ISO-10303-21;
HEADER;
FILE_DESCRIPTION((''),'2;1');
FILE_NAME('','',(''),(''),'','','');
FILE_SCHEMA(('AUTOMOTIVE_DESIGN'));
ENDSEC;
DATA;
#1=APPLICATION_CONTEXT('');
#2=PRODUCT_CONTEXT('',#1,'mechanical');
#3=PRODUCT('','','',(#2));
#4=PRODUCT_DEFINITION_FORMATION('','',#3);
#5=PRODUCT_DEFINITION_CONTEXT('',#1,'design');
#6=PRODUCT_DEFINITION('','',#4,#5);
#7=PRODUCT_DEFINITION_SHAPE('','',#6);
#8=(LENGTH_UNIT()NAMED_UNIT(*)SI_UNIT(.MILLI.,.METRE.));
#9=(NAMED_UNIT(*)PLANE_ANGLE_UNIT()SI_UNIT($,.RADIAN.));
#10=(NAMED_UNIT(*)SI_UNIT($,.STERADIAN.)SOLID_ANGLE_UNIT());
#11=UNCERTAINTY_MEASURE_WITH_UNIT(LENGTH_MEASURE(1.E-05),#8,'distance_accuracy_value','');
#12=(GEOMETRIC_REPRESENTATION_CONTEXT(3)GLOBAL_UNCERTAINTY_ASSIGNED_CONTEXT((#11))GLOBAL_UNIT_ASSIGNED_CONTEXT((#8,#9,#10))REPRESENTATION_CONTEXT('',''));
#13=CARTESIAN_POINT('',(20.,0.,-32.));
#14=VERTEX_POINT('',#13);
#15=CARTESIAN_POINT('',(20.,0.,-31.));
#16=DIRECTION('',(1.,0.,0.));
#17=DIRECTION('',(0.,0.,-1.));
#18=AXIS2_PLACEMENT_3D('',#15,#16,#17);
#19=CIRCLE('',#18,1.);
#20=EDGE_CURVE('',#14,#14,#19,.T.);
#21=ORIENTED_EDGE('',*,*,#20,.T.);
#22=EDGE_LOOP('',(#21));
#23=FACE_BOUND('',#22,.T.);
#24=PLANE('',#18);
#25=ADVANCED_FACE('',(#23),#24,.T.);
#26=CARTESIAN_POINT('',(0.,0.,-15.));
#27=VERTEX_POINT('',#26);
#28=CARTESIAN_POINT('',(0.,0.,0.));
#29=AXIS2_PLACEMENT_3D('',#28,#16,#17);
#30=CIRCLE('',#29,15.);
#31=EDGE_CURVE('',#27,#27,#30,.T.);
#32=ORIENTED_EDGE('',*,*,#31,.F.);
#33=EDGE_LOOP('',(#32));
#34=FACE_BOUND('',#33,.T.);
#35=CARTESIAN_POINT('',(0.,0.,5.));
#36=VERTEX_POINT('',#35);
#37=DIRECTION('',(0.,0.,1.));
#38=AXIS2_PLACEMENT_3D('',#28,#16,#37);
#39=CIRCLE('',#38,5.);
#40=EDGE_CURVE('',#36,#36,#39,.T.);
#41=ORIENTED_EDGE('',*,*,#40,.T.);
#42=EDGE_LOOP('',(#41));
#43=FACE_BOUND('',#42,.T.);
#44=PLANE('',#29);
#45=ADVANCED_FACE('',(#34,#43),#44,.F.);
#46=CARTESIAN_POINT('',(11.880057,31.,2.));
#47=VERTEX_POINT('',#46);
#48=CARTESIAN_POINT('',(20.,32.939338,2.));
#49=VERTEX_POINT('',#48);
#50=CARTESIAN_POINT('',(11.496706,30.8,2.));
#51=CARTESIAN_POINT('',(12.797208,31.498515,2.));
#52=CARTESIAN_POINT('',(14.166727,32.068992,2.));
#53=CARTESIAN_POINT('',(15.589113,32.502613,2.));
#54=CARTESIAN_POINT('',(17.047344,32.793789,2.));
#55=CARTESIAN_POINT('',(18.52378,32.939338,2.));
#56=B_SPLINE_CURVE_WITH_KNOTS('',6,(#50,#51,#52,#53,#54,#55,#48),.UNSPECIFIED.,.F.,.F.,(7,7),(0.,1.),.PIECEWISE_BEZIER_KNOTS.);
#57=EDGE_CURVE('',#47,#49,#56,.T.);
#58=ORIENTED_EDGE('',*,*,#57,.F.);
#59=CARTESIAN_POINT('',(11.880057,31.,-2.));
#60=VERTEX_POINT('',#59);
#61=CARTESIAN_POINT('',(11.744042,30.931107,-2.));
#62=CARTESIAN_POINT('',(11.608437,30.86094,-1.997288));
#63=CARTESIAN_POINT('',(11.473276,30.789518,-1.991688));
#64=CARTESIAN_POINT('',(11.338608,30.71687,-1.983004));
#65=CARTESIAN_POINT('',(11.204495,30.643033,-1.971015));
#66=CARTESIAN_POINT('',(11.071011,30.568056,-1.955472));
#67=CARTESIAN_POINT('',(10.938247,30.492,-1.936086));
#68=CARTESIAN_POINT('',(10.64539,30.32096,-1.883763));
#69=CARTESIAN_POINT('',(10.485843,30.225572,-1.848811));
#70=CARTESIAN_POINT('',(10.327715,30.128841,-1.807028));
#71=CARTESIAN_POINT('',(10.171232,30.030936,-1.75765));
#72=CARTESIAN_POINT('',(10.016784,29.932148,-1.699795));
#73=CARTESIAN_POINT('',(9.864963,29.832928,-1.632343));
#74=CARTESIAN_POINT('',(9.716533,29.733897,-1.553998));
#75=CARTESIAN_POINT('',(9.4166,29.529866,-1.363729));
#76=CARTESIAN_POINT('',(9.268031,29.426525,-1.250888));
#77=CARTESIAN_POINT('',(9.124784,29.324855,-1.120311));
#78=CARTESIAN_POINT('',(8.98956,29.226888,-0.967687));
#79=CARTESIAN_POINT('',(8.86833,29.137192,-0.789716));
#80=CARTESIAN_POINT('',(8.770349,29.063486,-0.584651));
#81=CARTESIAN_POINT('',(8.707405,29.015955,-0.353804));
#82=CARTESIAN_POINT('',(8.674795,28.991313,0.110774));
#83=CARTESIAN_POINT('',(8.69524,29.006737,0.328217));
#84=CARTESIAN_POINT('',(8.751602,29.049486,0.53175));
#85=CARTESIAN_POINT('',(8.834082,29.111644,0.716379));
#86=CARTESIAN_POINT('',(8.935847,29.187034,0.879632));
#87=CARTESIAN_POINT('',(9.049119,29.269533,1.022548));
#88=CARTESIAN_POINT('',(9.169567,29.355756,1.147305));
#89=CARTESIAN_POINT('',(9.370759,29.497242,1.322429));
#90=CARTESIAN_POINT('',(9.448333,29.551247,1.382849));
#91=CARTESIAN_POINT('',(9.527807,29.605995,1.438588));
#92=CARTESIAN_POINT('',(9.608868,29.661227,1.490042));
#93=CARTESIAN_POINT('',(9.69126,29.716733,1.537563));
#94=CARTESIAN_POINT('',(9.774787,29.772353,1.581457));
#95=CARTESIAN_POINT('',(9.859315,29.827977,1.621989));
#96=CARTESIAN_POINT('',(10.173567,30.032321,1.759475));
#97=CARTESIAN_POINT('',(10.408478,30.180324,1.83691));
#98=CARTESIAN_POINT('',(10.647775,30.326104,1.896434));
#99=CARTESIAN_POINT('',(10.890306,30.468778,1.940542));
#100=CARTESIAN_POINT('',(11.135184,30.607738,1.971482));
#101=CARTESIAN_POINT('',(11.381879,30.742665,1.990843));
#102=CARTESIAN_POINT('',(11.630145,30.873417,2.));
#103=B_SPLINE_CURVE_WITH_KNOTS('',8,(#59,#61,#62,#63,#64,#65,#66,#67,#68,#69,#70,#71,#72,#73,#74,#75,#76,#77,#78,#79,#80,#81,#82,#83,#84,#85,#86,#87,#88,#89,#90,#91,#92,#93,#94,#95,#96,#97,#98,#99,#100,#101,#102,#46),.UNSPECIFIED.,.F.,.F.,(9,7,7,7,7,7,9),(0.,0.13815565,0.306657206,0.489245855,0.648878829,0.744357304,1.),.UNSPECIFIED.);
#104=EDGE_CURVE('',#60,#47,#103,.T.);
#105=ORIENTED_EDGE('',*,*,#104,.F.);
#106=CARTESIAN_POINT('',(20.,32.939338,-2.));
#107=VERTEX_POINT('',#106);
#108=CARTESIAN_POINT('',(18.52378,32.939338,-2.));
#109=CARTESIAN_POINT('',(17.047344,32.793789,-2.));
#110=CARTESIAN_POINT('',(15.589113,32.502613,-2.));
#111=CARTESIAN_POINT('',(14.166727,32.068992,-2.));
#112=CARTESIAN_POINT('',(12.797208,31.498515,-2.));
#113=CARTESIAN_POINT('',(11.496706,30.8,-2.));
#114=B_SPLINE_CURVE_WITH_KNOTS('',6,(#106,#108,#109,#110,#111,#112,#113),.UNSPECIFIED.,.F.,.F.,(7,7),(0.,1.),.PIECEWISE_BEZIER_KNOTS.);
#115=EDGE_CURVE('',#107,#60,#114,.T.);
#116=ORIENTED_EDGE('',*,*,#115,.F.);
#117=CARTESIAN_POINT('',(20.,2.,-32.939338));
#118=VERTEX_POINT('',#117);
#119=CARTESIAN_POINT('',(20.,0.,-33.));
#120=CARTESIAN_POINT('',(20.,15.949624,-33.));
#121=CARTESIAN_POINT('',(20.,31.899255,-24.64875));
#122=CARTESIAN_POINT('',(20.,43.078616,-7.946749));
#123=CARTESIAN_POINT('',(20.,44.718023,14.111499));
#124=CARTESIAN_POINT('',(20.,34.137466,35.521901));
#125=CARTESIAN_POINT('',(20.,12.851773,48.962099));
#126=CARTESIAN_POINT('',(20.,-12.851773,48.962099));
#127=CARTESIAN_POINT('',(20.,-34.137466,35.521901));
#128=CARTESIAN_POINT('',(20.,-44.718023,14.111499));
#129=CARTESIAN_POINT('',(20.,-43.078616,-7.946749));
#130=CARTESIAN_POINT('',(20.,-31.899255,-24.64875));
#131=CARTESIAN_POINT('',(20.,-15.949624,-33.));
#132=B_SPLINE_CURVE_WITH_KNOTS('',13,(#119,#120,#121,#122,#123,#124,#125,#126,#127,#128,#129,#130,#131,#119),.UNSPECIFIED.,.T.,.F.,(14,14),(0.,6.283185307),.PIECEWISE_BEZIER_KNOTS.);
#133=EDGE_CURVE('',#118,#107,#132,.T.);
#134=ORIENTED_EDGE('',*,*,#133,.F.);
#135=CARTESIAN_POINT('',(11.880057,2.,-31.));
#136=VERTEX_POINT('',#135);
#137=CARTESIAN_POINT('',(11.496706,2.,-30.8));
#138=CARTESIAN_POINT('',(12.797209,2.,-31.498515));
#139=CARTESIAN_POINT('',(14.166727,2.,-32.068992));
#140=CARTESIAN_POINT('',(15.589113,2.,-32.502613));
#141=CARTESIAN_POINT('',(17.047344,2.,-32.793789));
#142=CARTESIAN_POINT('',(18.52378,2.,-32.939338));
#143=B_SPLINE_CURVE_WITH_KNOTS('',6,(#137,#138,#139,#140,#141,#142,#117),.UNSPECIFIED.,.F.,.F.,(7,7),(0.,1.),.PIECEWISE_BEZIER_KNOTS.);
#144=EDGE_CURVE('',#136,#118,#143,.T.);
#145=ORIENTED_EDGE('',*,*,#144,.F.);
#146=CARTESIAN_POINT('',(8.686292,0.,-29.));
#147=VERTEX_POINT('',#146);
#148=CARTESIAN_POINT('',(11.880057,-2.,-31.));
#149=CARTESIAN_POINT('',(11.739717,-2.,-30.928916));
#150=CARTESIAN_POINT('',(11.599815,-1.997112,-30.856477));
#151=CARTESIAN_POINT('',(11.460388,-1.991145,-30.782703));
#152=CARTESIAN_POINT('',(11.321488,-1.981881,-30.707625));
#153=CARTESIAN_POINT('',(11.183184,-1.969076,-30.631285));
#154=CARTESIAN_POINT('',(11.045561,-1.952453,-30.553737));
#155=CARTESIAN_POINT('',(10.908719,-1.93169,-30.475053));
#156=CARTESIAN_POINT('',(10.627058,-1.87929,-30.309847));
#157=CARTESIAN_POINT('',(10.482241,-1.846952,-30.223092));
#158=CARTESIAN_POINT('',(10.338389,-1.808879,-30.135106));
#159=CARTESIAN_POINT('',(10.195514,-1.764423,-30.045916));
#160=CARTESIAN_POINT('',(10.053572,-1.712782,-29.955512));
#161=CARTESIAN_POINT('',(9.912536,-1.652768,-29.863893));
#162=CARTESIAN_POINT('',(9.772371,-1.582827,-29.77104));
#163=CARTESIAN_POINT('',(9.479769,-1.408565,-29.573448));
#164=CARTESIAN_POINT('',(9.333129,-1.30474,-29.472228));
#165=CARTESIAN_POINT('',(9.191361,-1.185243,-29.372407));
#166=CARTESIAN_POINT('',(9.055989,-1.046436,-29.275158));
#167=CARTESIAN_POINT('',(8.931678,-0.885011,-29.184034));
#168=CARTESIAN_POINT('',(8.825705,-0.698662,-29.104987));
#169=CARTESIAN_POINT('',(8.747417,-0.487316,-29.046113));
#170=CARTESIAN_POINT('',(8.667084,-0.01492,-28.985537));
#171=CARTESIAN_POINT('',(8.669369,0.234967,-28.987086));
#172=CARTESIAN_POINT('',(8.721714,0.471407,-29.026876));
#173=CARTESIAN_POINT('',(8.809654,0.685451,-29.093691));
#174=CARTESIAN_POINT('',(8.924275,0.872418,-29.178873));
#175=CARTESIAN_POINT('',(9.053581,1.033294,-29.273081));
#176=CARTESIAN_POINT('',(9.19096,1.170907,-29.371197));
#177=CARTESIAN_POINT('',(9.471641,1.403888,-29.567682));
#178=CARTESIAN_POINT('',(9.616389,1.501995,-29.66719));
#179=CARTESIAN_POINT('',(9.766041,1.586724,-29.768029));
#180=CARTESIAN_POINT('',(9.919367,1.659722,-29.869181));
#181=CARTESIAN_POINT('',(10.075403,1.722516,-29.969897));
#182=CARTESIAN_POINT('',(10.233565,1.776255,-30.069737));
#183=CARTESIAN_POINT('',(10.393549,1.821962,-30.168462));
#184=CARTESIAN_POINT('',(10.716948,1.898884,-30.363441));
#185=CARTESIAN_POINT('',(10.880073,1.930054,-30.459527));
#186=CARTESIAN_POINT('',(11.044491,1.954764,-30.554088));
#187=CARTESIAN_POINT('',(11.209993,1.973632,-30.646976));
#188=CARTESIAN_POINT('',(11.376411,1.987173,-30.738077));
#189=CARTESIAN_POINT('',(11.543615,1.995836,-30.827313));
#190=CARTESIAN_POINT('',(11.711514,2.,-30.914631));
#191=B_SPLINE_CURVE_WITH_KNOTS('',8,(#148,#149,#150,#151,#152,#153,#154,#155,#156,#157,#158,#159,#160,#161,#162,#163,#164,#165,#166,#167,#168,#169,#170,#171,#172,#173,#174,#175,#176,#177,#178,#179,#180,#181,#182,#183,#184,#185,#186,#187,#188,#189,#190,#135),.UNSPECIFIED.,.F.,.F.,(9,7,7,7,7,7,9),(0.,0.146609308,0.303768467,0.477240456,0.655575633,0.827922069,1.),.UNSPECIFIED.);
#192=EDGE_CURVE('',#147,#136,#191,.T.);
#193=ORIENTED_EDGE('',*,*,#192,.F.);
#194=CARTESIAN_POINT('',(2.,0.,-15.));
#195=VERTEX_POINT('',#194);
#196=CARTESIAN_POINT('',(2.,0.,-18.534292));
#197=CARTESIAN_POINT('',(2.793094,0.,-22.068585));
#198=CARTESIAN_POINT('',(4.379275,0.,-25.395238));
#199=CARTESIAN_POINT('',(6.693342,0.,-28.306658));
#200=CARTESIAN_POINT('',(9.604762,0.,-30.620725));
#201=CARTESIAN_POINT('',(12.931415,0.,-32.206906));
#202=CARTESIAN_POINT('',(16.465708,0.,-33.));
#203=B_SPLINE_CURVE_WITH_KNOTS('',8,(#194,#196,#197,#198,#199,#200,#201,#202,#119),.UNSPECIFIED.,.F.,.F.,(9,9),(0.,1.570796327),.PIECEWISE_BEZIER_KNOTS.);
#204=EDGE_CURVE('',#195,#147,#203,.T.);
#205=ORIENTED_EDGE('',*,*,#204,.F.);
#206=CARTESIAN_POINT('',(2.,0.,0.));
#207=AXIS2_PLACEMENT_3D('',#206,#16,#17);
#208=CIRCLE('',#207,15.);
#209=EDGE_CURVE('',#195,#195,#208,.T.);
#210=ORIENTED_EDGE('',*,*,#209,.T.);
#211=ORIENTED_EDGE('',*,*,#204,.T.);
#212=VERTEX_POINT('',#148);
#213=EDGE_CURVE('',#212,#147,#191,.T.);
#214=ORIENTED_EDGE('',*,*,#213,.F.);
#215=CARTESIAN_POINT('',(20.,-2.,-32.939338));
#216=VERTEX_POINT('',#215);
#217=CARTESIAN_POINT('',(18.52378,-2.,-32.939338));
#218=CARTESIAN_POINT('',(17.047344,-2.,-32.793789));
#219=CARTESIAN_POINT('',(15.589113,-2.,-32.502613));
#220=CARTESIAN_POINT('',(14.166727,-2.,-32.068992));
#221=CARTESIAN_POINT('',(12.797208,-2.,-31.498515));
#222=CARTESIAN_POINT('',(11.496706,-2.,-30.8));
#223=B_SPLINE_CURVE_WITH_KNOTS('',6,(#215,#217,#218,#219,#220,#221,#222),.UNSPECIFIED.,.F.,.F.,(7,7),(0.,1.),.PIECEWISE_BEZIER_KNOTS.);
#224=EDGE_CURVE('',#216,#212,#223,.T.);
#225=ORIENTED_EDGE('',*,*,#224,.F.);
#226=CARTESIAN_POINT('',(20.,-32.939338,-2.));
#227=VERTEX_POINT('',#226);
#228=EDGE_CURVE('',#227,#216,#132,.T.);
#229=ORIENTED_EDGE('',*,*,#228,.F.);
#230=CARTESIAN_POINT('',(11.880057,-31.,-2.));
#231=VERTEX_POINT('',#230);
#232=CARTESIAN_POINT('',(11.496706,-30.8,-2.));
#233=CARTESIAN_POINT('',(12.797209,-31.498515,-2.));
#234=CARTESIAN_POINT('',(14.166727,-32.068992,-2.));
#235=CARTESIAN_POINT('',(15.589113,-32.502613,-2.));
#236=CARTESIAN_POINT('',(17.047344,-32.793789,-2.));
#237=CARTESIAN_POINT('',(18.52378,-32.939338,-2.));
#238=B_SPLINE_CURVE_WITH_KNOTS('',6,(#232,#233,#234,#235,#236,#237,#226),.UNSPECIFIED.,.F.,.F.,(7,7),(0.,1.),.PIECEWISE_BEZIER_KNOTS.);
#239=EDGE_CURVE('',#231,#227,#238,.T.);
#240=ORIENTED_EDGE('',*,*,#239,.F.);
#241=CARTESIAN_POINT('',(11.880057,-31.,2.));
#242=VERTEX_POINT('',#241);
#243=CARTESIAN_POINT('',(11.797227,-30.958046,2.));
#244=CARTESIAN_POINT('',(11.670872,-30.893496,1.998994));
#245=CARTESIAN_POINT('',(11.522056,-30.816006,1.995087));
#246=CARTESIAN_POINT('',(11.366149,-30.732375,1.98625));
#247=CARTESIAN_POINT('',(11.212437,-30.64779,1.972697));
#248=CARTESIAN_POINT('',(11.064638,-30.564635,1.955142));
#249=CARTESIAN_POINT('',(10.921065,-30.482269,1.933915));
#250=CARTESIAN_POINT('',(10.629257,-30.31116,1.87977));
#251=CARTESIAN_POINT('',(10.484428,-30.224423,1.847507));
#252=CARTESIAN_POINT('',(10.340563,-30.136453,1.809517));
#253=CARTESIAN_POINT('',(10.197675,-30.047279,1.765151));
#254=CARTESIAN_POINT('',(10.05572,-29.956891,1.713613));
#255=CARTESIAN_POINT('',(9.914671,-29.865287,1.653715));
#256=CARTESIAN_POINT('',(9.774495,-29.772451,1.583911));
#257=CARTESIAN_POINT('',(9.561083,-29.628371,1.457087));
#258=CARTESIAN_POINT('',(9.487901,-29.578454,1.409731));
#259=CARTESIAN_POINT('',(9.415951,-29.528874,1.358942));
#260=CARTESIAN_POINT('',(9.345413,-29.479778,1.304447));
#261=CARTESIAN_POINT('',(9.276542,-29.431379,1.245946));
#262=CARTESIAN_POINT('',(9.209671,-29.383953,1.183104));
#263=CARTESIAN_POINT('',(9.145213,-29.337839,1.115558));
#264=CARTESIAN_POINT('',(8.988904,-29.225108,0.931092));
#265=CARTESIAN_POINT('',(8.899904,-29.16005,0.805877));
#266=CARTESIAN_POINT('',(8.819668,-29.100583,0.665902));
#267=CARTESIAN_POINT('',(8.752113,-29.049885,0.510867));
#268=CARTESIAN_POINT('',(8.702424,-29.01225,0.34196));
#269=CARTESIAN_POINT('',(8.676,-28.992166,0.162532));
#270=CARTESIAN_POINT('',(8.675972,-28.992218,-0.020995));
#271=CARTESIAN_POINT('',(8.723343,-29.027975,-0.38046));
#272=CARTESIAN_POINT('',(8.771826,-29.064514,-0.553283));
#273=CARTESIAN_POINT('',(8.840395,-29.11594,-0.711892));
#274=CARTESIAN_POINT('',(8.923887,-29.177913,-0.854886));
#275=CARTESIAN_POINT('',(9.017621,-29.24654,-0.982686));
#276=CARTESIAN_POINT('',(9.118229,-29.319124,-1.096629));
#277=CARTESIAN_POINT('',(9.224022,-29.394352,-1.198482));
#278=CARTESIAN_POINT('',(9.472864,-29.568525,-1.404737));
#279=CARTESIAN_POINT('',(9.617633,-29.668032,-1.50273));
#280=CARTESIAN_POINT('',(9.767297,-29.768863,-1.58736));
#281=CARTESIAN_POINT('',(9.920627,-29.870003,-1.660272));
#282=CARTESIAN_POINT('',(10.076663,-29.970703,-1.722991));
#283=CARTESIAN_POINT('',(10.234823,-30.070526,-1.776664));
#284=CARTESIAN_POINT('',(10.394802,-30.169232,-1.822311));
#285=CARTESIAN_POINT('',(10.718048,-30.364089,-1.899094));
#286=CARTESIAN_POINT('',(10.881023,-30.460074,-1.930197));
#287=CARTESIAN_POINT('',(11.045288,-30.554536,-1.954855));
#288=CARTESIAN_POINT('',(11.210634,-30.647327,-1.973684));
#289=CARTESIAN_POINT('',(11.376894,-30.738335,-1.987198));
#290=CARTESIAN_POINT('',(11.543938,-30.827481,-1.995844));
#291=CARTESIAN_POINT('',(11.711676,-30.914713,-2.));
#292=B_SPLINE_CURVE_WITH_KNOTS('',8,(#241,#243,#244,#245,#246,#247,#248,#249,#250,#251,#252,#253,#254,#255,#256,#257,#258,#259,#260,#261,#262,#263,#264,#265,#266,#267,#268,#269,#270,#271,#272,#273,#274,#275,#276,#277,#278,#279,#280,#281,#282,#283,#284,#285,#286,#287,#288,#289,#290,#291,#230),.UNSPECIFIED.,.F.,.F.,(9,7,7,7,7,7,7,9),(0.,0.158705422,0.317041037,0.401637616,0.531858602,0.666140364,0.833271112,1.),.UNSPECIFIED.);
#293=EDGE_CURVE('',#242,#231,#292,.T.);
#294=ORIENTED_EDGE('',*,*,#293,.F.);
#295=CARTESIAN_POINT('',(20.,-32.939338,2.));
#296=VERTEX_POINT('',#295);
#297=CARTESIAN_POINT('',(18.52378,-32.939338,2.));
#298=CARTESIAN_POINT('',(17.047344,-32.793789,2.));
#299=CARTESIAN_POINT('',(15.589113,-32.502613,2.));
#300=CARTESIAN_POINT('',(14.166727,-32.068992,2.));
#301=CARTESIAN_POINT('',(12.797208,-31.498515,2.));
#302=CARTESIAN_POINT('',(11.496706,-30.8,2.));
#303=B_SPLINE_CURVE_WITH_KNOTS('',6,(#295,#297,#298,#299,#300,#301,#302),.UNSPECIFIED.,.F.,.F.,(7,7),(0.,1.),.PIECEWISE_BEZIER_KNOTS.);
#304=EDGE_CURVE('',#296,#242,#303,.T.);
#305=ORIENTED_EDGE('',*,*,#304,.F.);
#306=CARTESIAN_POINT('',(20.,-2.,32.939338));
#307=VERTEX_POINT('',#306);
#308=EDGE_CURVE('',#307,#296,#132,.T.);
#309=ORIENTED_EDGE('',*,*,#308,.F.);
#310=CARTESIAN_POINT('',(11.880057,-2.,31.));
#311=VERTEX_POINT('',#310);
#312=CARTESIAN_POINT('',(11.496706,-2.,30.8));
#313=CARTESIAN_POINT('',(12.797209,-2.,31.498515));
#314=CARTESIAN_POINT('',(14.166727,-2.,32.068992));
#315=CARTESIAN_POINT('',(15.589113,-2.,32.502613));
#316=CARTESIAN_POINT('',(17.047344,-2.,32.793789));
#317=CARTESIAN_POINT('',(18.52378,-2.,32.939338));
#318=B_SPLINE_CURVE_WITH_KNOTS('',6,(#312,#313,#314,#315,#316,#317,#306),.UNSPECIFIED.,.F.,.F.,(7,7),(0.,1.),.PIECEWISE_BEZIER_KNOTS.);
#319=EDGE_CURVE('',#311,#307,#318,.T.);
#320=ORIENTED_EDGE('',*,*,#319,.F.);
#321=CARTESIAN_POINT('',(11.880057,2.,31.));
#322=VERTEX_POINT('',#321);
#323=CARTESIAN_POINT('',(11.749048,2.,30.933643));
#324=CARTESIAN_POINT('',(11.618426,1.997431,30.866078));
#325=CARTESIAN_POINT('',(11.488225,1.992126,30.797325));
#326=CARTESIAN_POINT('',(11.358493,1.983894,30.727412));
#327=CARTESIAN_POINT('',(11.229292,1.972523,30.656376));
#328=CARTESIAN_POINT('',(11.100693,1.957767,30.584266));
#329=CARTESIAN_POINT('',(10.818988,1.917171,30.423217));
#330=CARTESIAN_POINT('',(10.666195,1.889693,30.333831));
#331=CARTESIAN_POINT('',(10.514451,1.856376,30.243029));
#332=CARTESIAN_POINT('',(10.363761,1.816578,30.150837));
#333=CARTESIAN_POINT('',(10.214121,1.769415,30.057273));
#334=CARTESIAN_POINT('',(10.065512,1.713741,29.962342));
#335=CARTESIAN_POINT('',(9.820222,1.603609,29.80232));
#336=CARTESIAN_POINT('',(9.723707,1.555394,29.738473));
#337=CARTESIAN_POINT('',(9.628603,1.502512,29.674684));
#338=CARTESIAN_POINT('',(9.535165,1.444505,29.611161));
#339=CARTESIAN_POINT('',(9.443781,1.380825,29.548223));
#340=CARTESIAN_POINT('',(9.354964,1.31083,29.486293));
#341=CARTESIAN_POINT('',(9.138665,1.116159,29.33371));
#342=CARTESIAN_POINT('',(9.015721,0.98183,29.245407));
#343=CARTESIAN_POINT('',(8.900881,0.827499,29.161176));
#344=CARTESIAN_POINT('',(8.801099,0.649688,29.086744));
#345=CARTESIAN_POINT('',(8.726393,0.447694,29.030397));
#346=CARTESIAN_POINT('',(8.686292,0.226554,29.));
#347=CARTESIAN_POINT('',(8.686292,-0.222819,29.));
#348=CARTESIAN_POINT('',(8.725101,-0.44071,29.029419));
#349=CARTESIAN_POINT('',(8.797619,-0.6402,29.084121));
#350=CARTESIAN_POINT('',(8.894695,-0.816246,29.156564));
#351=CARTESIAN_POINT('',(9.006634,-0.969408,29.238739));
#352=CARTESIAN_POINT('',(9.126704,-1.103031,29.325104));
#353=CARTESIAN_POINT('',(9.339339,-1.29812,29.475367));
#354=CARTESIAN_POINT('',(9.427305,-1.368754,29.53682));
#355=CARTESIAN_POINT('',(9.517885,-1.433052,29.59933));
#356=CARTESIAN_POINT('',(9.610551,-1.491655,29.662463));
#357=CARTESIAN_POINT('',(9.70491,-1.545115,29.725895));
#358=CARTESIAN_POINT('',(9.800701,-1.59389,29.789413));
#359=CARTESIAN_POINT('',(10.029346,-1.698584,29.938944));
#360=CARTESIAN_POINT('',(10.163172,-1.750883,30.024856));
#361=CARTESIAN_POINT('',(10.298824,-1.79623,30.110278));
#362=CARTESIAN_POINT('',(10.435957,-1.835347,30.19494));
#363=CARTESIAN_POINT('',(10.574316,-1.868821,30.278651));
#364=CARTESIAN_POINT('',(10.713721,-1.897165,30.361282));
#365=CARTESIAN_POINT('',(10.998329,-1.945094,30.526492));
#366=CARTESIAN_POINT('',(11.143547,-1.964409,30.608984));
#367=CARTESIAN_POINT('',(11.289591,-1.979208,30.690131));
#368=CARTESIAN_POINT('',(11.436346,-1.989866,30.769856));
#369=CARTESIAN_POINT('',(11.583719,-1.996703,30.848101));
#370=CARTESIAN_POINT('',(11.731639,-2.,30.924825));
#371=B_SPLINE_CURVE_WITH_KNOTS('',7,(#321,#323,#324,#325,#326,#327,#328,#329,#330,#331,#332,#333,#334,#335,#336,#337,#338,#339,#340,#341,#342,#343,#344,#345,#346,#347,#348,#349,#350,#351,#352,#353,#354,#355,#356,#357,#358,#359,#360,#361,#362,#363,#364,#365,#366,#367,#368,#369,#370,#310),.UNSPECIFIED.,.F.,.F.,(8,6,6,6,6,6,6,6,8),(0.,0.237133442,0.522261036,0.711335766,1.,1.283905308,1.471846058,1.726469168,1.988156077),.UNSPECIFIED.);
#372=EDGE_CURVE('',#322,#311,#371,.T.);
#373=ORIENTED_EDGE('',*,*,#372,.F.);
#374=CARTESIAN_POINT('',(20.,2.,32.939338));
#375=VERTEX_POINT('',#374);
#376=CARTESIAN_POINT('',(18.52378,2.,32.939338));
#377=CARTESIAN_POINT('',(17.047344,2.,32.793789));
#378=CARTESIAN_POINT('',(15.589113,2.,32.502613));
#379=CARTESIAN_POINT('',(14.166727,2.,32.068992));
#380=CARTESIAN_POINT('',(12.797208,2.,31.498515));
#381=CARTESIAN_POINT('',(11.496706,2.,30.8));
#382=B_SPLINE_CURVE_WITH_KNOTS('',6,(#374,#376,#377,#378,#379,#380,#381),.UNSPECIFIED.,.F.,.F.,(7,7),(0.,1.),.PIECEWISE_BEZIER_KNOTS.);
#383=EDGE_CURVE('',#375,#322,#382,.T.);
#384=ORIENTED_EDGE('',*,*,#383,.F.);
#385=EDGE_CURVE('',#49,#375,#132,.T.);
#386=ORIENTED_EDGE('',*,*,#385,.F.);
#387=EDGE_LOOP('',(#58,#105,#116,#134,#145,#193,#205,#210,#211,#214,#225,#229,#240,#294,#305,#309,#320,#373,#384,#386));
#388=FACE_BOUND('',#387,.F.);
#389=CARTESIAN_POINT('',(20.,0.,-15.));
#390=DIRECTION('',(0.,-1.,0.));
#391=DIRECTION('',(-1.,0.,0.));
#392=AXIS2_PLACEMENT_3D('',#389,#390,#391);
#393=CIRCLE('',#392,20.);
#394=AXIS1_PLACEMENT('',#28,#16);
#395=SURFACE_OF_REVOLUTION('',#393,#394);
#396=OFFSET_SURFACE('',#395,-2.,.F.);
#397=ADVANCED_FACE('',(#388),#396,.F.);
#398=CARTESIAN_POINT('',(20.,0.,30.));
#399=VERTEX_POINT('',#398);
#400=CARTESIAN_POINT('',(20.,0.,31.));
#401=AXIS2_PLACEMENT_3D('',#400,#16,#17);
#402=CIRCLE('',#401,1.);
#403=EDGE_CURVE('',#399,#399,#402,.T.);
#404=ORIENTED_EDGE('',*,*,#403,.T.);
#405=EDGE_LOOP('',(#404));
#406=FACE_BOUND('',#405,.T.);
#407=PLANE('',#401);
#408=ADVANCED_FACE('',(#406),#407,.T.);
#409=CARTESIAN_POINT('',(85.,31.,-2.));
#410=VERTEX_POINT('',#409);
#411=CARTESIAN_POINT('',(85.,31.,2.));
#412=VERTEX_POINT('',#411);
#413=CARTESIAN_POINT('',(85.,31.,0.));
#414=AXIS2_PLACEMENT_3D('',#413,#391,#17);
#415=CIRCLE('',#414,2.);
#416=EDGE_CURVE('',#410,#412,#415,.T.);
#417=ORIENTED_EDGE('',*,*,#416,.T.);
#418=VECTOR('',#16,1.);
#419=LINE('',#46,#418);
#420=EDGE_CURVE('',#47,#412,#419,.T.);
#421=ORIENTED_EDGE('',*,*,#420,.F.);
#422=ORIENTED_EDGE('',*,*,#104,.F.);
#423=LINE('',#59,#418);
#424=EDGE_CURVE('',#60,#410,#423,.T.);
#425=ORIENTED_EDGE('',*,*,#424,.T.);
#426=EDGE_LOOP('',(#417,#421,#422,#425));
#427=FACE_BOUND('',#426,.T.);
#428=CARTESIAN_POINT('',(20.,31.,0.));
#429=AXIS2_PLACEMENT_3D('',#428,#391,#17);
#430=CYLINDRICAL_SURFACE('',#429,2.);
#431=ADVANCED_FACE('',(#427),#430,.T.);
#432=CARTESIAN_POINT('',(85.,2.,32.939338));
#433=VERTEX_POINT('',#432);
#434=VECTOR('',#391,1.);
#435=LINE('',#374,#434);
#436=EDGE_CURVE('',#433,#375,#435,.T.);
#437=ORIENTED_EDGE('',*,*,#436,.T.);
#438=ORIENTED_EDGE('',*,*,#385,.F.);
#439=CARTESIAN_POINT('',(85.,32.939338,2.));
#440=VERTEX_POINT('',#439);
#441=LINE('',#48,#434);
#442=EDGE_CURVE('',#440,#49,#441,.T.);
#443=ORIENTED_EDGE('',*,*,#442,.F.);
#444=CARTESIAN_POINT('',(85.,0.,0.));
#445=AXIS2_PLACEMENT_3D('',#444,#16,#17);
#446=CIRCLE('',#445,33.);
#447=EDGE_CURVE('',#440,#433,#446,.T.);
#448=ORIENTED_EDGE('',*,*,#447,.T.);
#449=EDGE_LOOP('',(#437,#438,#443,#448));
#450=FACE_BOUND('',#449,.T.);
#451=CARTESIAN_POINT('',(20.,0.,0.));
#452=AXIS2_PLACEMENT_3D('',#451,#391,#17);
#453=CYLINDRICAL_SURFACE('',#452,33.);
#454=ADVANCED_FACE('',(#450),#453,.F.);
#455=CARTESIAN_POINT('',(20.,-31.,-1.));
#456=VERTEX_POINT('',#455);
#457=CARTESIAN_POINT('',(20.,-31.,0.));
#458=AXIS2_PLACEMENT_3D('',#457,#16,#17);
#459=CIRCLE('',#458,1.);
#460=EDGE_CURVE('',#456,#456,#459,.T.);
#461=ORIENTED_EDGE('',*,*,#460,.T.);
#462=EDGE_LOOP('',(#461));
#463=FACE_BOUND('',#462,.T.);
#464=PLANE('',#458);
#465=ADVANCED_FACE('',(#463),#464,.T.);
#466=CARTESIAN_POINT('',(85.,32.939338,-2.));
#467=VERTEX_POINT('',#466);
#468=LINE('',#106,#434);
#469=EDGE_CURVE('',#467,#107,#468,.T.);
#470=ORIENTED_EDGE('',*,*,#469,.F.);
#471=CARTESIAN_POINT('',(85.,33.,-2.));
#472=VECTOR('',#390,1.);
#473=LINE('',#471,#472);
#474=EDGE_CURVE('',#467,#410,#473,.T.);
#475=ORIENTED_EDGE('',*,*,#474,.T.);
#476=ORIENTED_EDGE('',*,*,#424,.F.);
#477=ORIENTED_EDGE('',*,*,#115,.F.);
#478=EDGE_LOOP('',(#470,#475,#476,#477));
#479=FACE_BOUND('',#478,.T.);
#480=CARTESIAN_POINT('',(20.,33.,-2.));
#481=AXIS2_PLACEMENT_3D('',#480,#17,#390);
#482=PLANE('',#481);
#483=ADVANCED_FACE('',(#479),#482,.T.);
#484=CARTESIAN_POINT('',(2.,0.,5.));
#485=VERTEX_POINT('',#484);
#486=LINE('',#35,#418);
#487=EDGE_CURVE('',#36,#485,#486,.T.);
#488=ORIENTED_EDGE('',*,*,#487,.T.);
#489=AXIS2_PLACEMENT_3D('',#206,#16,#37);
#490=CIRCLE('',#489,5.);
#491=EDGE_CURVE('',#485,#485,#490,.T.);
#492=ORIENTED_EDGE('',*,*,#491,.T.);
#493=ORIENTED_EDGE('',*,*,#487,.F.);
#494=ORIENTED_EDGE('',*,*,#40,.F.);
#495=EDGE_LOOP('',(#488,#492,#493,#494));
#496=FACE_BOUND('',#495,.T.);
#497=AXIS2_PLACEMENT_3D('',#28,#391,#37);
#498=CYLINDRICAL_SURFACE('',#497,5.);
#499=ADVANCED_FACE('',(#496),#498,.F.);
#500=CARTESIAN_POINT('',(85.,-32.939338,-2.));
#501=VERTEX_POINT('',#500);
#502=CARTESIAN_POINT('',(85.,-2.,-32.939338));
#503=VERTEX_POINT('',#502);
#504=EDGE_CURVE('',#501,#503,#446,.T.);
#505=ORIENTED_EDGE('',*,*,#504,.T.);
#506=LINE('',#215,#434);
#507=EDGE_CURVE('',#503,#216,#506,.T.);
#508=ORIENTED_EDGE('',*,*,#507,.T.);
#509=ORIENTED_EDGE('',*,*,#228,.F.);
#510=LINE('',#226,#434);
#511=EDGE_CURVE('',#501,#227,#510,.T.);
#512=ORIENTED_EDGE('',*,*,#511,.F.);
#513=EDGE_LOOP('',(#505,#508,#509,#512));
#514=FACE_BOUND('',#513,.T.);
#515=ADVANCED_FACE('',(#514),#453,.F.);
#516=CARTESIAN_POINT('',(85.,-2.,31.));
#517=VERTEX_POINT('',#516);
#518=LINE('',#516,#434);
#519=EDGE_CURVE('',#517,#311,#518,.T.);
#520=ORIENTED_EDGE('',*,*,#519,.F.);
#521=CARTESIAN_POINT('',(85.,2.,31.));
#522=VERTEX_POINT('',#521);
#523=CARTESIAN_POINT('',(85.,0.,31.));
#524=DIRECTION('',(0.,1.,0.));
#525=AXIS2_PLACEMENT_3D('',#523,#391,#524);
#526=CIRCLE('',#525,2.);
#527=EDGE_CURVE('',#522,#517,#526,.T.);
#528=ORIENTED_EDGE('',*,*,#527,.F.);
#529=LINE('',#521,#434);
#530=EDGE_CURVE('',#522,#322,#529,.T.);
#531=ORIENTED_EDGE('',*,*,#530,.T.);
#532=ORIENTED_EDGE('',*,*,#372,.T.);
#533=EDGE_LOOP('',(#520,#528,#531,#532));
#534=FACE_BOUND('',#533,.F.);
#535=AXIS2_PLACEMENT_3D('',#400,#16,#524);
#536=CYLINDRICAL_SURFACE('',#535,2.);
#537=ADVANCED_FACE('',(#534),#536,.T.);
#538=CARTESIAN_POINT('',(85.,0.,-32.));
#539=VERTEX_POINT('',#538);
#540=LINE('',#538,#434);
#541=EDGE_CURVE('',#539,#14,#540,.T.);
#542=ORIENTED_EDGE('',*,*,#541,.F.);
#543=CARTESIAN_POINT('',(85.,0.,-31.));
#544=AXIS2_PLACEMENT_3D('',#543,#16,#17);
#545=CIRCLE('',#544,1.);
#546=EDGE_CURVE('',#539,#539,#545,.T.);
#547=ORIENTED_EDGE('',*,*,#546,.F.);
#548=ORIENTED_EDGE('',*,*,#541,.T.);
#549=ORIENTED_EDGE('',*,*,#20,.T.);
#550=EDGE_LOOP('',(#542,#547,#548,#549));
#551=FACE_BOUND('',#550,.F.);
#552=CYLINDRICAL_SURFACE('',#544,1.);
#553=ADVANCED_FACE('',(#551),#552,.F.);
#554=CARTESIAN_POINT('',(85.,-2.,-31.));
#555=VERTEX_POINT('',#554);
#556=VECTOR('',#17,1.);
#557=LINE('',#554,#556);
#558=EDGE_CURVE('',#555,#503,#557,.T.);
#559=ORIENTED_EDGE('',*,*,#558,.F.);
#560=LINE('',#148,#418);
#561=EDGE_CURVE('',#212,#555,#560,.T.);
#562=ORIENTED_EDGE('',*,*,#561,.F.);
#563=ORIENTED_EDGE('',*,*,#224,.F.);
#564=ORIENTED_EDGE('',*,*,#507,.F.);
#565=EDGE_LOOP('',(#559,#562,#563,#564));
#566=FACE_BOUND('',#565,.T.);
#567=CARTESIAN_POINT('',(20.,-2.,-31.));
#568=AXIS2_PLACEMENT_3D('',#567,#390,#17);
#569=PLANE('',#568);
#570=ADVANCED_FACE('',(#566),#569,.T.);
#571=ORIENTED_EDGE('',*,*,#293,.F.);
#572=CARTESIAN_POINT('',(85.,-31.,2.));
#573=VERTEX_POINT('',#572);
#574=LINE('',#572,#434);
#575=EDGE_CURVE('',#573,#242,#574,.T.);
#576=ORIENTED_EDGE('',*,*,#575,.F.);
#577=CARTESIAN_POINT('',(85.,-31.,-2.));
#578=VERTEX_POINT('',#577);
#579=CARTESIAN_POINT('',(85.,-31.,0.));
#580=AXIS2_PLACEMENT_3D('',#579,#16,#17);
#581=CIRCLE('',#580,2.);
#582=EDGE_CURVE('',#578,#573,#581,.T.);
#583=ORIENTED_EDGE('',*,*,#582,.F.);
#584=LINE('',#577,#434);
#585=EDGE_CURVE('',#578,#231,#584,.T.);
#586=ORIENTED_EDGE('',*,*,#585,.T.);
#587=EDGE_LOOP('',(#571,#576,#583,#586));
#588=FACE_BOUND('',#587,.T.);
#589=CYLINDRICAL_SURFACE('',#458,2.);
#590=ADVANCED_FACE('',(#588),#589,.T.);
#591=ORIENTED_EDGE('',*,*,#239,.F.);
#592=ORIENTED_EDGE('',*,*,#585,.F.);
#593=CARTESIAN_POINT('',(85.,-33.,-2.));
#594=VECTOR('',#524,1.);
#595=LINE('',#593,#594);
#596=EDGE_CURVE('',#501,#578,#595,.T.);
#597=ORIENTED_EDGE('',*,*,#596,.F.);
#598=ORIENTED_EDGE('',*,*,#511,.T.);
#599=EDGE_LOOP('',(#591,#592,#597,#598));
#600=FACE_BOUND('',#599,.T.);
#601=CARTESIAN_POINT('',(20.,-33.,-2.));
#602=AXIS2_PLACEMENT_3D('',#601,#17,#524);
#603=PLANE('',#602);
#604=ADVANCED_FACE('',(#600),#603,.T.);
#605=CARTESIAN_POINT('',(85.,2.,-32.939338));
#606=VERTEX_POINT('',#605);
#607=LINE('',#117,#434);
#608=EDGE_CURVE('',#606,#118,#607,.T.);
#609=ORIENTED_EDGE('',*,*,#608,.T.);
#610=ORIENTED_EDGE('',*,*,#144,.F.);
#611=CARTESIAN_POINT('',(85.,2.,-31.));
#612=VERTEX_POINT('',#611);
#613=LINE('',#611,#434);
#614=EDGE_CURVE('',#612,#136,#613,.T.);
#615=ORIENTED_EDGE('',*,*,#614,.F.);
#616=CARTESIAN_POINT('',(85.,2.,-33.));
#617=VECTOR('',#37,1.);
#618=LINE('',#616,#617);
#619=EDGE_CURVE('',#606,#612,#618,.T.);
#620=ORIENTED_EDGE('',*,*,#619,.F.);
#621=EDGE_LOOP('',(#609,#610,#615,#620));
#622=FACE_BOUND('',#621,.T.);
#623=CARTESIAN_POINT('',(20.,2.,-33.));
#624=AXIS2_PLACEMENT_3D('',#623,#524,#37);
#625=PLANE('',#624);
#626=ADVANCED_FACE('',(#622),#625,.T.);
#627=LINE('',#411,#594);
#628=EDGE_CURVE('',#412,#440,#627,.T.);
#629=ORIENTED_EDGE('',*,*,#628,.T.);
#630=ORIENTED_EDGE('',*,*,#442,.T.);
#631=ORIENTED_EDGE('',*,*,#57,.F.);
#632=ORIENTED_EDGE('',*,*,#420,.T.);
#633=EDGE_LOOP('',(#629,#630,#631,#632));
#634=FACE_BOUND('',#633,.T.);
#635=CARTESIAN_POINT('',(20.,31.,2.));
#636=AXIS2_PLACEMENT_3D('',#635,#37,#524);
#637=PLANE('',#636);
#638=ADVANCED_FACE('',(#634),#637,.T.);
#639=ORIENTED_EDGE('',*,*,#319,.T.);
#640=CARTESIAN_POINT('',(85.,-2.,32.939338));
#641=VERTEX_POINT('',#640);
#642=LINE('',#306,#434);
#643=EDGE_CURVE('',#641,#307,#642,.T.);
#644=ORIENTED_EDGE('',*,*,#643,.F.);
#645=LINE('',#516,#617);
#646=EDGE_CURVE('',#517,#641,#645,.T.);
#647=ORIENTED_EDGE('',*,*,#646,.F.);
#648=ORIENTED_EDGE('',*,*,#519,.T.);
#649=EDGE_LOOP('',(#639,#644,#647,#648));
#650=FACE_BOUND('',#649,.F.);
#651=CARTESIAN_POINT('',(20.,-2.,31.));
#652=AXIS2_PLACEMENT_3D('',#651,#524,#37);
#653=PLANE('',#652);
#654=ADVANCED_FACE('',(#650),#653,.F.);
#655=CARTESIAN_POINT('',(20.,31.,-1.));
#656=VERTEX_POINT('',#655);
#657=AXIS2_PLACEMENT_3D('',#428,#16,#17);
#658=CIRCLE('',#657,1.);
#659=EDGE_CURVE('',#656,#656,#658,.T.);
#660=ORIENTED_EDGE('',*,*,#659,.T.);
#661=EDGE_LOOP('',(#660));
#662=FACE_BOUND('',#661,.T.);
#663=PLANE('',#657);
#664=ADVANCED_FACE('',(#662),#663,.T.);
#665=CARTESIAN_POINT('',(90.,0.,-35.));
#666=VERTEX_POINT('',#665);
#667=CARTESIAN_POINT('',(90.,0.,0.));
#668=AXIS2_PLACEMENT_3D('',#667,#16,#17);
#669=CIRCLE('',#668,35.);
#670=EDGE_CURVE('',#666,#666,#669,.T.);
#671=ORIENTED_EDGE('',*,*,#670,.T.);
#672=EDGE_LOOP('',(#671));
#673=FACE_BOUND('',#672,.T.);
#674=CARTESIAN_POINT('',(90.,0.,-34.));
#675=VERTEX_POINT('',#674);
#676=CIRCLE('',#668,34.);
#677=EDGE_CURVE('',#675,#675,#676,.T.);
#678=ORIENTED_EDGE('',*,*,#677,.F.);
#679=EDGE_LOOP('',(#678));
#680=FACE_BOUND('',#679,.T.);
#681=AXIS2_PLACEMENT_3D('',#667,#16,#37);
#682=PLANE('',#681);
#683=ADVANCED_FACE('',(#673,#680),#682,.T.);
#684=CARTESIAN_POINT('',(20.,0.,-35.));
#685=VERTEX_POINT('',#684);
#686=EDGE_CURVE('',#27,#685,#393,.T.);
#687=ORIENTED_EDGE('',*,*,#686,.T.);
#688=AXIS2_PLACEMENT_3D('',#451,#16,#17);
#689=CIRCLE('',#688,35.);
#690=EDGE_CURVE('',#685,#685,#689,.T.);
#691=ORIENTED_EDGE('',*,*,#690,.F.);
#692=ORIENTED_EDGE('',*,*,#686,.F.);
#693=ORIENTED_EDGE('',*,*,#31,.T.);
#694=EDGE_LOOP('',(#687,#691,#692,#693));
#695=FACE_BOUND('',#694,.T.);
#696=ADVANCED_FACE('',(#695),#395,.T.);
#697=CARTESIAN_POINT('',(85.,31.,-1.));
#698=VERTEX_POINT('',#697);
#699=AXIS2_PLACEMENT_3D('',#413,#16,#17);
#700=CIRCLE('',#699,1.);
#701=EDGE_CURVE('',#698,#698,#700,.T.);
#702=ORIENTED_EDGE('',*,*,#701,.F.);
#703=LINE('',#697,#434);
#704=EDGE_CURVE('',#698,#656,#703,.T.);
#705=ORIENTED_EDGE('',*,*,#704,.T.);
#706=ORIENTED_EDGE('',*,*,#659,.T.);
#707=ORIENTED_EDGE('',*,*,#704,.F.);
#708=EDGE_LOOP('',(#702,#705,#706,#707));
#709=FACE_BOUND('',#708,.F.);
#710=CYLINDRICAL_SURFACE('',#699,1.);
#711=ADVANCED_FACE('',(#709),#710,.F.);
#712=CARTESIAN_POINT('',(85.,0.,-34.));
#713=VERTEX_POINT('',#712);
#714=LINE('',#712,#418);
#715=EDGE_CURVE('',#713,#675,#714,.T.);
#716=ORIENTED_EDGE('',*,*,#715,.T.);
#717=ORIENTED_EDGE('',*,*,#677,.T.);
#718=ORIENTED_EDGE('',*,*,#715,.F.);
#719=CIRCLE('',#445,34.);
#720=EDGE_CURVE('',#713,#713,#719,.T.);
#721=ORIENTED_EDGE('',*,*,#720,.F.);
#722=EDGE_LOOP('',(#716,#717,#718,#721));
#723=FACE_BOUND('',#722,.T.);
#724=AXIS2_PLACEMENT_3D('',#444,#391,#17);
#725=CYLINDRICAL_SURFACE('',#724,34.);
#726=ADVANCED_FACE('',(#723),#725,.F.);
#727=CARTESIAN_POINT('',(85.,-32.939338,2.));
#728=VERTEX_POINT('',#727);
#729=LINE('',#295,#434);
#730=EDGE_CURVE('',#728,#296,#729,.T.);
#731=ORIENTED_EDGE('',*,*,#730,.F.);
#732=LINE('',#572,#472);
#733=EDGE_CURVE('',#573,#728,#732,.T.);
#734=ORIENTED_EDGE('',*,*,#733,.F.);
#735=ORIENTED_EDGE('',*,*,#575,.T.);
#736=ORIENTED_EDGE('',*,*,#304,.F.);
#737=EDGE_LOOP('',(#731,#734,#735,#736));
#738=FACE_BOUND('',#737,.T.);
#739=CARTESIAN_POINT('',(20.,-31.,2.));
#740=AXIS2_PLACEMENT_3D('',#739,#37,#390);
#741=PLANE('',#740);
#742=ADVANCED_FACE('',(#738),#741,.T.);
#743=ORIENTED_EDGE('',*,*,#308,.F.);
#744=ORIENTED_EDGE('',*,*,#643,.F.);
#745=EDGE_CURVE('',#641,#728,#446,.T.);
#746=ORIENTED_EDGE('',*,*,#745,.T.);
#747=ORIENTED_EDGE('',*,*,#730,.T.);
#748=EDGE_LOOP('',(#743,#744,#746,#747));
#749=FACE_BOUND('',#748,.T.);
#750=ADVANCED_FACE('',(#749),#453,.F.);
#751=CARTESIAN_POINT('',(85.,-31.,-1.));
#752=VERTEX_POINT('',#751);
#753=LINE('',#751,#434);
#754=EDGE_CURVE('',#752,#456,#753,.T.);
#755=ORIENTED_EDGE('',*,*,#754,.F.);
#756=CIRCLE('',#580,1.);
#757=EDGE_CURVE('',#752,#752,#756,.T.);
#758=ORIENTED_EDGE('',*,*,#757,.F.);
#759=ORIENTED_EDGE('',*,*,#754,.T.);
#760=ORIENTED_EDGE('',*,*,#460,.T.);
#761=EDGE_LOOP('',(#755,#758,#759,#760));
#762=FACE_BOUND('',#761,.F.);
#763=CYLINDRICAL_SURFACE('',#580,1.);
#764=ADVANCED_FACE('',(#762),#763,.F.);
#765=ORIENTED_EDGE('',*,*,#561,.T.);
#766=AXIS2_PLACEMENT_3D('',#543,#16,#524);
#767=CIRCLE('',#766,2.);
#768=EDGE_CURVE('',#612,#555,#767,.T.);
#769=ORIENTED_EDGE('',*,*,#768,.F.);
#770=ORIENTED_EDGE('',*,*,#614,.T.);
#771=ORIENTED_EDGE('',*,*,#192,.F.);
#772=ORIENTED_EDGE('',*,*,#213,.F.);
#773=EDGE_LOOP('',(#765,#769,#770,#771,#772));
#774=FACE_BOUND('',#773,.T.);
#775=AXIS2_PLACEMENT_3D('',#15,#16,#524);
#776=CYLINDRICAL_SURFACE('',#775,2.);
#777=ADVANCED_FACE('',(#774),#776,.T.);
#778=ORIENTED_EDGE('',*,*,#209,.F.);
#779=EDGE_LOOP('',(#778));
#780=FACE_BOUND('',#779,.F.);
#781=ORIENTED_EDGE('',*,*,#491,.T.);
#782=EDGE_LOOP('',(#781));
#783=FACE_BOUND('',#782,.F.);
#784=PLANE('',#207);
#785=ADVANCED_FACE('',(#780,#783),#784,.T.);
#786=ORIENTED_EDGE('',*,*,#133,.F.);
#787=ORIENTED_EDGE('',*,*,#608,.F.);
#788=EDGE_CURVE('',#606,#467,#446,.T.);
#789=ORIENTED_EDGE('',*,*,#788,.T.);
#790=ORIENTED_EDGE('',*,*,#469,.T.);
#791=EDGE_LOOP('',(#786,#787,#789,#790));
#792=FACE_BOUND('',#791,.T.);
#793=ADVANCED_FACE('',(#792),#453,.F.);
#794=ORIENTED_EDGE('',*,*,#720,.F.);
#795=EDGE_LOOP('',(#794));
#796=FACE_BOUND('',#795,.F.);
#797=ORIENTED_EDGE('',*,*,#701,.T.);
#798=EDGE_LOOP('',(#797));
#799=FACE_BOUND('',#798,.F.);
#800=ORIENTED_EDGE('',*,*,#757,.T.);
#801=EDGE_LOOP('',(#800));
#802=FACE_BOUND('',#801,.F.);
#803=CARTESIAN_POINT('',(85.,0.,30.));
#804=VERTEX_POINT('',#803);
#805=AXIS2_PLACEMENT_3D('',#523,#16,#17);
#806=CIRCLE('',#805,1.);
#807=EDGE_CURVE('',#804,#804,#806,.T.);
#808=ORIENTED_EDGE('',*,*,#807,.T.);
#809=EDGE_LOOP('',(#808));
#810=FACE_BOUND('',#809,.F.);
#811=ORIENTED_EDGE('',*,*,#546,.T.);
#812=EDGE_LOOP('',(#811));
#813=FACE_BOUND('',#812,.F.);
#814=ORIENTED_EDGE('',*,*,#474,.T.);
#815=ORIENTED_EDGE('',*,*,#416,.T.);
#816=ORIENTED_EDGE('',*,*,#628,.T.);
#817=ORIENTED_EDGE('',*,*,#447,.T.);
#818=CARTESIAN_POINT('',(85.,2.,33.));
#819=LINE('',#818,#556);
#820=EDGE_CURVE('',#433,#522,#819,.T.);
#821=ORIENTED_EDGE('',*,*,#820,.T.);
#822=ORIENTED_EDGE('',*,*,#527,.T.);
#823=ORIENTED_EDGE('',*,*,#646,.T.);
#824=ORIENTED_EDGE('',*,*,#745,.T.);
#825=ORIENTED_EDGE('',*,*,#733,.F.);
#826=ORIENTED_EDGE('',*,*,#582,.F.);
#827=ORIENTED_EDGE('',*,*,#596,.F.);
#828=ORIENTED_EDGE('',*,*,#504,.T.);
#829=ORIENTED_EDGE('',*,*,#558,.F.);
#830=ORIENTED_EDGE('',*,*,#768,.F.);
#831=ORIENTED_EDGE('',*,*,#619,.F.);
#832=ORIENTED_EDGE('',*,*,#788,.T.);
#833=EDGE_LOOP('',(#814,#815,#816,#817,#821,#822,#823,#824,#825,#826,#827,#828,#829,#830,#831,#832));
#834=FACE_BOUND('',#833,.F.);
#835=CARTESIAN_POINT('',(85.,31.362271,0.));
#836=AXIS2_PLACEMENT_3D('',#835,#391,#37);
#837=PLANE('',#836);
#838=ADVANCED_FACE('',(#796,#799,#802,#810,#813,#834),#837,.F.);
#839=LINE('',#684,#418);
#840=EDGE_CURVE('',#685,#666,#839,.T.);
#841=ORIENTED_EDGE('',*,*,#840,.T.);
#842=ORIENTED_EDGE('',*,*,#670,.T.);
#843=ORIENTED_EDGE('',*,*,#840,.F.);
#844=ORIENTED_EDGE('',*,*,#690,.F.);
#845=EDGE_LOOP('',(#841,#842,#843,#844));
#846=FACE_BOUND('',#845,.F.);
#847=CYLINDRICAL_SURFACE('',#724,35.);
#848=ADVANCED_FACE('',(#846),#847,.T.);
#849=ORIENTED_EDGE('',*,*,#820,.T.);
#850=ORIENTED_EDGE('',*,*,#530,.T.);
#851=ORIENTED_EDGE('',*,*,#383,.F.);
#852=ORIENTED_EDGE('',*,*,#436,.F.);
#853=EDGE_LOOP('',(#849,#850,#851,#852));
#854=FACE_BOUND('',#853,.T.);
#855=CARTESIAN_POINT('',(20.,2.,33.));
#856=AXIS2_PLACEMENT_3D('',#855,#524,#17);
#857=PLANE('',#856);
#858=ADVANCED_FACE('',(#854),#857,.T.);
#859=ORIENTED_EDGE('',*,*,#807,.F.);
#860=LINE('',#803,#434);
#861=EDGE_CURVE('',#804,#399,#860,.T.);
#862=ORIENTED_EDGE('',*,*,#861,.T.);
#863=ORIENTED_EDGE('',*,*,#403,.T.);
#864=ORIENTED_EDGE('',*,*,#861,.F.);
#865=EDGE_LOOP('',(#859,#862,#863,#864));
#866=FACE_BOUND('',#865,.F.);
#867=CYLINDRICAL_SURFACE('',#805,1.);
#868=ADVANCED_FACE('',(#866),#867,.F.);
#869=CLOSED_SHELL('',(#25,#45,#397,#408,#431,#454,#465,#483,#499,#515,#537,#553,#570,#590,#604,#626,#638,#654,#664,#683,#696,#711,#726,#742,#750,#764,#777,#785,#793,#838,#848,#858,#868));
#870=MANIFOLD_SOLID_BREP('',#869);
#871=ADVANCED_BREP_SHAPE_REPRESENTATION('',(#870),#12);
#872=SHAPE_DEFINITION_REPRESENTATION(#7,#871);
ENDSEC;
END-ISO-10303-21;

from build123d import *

# Parameters (mm, degrees)
THICKEN1_T2                     = 2
SURFACE_EXTRUDE1_2_DEPTH        = 65
THICKEN2_T1                     = 2
BOSS_EXTRUDE2_REACH             = 83.701
BOSS_EXTRUDE2_END_MAJOR_RADIUS  = 15
BOSS_EXTRUDE2_END_MINOR_RADIUS  = 18
BOSS_EXTRUDE2_DIRECTION_2_DEPTH = 65
SKETCH5_R                       = 1
CUT_EXTRUDE2_DEPTH              = 65
SURFACE_EXTRUDE2_3_DEPTH        = 5
THICKEN3_T1                     = 1
SKETCH7_R                       = 5
CUT_EXTRUDE3_DEPTH              = 2


with BuildPart() as body_1:
    # Surface-Revolve1: a surface, the sketch's curves turned about an axis
    with BuildLine(Plane(origin=(0, 0, 0), x_dir=(1, 0, 0), z_dir=(0, 1, 0)), mode=Mode.PRIVATE) as surface_revolve1_1_path:
        Line((0, 0), (0, 15))
        ThreePointArc((0, 15), (5.857864376, 29.142135624), (20, 35))
    surface_revolve1_1 = Shell.revolve(surface_revolve1_1_path.wire(), 360, Axis((0, 0, 0), (1, 0, 0)))
    add(Solid.thicken(surface_revolve1_1, -THICKEN1_T2))

    # Surface-Extrude1: a surface, the sketch's curves swept straight by 65 mm
    with BuildLine(Plane(origin=(20, 0, 0), x_dir=(0, 0, -1), z_dir=(1, 0, 0)), mode=Mode.PRIVATE) as surface_extrude1_2_path:
        CenterArc((0, 0), 35, 0, 360)
    surface_extrude1_2 = Shell.extrude(surface_extrude1_2_path.wire(), (1 * SURFACE_EXTRUDE1_2_DEPTH, 0 * SURFACE_EXTRUDE1_2_DEPTH, 0 * SURFACE_EXTRUDE1_2_DEPTH))
    add(Solid.thicken(surface_extrude1_2, THICKEN2_T1))

    # Boss-Extrude2: up to this torus (the profile starts inside it)
    boss_extrude2_end = Plane(origin=(20, 0, 0), z_dir=(1, 0, 0)) * Torus(BOSS_EXTRUDE2_END_MAJOR_RADIUS, BOSS_EXTRUDE2_END_MINOR_RADIUS, mode=Mode.PRIVATE)
    # Sketch2 → Boss-Extrude2 (add, up to the surface)
    with BuildSketch(Plane(origin=(20, 0, 0), x_dir=(0, 0, -1), z_dir=(1, 0, 0)), mode=Mode.PRIVATE) as boss_extrude2_sk1:
        with BuildLine():
            Line((-2, 31), (-2, 33))
            Line((-2, 33), (2, 33))
            Line((2, 33), (2, 31))
            ThreePointArc((2, 31), (0, 29), (-2, 31))
        make_face()
    boss_extrude2_tool1 = extrude(boss_extrude2_sk1.sketch, amount=-BOSS_EXTRUDE2_REACH, mode=Mode.PRIVATE) & boss_extrude2_end
    add(boss_extrude2_tool1.solids().sort_by_distance((20, 31.1867, 0))[0])
    # Sketch2 → Boss-Extrude2 (add, up to the surface)
    with BuildSketch(Plane(origin=(20, 0, 0), x_dir=(0, 0, -1), z_dir=(1, 0, 0)), mode=Mode.PRIVATE) as boss_extrude2_sk2:
        with BuildLine():
            Line((-31, -2), (-33, -2))
            Line((-33, -2), (-33, 2))
            Line((-33, 2), (-31, 2))
            ThreePointArc((-31, 2), (-29, 0), (-31, -2))
        make_face()
    boss_extrude2_tool2 = extrude(boss_extrude2_sk2.sketch, amount=-BOSS_EXTRUDE2_REACH, mode=Mode.PRIVATE) & boss_extrude2_end
    add(boss_extrude2_tool2.solids().sort_by_distance((20, 0, 31.1867))[0])
    # Sketch2 → Boss-Extrude2 (add, up to the surface)
    with BuildSketch(Plane(origin=(20, 0, 0), x_dir=(0, 0, -1), z_dir=(1, 0, 0)), mode=Mode.PRIVATE) as boss_extrude2_sk3:
        with BuildLine():
            Line((2, -33), (2, -31))
            ThreePointArc((2, -31), (0, -29), (-2, -31))
            Line((-2, -31), (-2, -33))
            Line((-2, -33), (2, -33))
        make_face()
    boss_extrude2_tool3 = extrude(boss_extrude2_sk3.sketch, amount=-BOSS_EXTRUDE2_REACH, mode=Mode.PRIVATE) & boss_extrude2_end
    add(boss_extrude2_tool3.solids().sort_by_distance((20, -31.1867, 0))[0])
    # Sketch2 → Boss-Extrude2 (add, up to the surface)
    with BuildSketch(Plane(origin=(20, 0, 0), x_dir=(0, 0, -1), z_dir=(1, 0, 0)), mode=Mode.PRIVATE) as boss_extrude2_sk4:
        with BuildLine():
            Line((33, 2), (31, 2))
            ThreePointArc((31, 2), (29, 0), (31, -2))
            Line((31, -2), (33, -2))
            Line((33, -2), (33, 2))
        make_face()
    boss_extrude2_tool4 = extrude(boss_extrude2_sk4.sketch, amount=-BOSS_EXTRUDE2_REACH, mode=Mode.PRIVATE) & boss_extrude2_end
    add(boss_extrude2_tool4.solids().sort_by_distance((20, 0, -31.1867))[0])

    # Sketch2 → Boss-Extrude2 direction 2 (add)
    with BuildSketch(Plane(origin=(20, 0, 0), x_dir=(0, 0, -1), z_dir=(1, 0, 0))):
        with BuildLine():
            Line((-2, 31), (-2, 33))
            Line((-2, 33), (2, 33))
            Line((2, 33), (2, 31))
            ThreePointArc((2, 31), (0, 29), (-2, 31))
        make_face()
        with BuildLine():
            Line((-31, -2), (-33, -2))
            Line((-33, -2), (-33, 2))
            Line((-33, 2), (-31, 2))
            ThreePointArc((-31, 2), (-29, 0), (-31, -2))
        make_face()
        with BuildLine():
            Line((2, -33), (2, -31))
            ThreePointArc((2, -31), (0, -29), (-2, -31))
            Line((-2, -31), (-2, -33))
            Line((-2, -33), (2, -33))
        make_face()
        with BuildLine():
            Line((33, 2), (31, 2))
            ThreePointArc((31, 2), (29, 0), (31, -2))
            Line((31, -2), (33, -2))
            Line((33, -2), (33, 2))
        make_face()
    extrude(amount=BOSS_EXTRUDE2_DIRECTION_2_DEPTH)

    # Sketch5 → Cut-Extrude2 (cut)
    with BuildSketch(Plane(origin=(85, 0, 0), x_dir=(0, 0, -1), z_dir=(1, 0, 0))):
        with Locations((0, 31)):
            Circle(SKETCH5_R)
        with Locations((31, 0)):
            Circle(SKETCH5_R)
        with Locations((-31, 0)):
            Circle(SKETCH5_R)
        with Locations((0, -31)):
            Circle(SKETCH5_R)
    extrude(amount=-CUT_EXTRUDE2_DEPTH, mode=Mode.SUBTRACT)

    # Surface-Extrude2: a surface, the sketch's curves swept straight by 5 mm
    with BuildLine(Plane(origin=(85, 0, 0), x_dir=(0, 0, -1), z_dir=(1, 0, 0)), mode=Mode.PRIVATE) as surface_extrude2_3_path:
        CenterArc((0, 0), 35, 0, 360)
    surface_extrude2_3 = Shell.extrude(surface_extrude2_3_path.wire(), (1 * SURFACE_EXTRUDE2_3_DEPTH, 0 * SURFACE_EXTRUDE2_3_DEPTH, 0 * SURFACE_EXTRUDE2_3_DEPTH))
    add(Solid.thicken(surface_extrude2_3, THICKEN3_T1))

    # Sketch7 → Cut-Extrude3 (cut)
    with BuildSketch(Plane(origin=(0, 0, 0), x_dir=(0, 0, -1), z_dir=(1, 0, 0))):
        with Locations(Location((0, 0, 0), (0, 0, 180))):
            Circle(SKETCH7_R)
    extrude(amount=CUT_EXTRUDE3_DEPTH, mode=Mode.SUBTRACT)


solid = body_1.part
